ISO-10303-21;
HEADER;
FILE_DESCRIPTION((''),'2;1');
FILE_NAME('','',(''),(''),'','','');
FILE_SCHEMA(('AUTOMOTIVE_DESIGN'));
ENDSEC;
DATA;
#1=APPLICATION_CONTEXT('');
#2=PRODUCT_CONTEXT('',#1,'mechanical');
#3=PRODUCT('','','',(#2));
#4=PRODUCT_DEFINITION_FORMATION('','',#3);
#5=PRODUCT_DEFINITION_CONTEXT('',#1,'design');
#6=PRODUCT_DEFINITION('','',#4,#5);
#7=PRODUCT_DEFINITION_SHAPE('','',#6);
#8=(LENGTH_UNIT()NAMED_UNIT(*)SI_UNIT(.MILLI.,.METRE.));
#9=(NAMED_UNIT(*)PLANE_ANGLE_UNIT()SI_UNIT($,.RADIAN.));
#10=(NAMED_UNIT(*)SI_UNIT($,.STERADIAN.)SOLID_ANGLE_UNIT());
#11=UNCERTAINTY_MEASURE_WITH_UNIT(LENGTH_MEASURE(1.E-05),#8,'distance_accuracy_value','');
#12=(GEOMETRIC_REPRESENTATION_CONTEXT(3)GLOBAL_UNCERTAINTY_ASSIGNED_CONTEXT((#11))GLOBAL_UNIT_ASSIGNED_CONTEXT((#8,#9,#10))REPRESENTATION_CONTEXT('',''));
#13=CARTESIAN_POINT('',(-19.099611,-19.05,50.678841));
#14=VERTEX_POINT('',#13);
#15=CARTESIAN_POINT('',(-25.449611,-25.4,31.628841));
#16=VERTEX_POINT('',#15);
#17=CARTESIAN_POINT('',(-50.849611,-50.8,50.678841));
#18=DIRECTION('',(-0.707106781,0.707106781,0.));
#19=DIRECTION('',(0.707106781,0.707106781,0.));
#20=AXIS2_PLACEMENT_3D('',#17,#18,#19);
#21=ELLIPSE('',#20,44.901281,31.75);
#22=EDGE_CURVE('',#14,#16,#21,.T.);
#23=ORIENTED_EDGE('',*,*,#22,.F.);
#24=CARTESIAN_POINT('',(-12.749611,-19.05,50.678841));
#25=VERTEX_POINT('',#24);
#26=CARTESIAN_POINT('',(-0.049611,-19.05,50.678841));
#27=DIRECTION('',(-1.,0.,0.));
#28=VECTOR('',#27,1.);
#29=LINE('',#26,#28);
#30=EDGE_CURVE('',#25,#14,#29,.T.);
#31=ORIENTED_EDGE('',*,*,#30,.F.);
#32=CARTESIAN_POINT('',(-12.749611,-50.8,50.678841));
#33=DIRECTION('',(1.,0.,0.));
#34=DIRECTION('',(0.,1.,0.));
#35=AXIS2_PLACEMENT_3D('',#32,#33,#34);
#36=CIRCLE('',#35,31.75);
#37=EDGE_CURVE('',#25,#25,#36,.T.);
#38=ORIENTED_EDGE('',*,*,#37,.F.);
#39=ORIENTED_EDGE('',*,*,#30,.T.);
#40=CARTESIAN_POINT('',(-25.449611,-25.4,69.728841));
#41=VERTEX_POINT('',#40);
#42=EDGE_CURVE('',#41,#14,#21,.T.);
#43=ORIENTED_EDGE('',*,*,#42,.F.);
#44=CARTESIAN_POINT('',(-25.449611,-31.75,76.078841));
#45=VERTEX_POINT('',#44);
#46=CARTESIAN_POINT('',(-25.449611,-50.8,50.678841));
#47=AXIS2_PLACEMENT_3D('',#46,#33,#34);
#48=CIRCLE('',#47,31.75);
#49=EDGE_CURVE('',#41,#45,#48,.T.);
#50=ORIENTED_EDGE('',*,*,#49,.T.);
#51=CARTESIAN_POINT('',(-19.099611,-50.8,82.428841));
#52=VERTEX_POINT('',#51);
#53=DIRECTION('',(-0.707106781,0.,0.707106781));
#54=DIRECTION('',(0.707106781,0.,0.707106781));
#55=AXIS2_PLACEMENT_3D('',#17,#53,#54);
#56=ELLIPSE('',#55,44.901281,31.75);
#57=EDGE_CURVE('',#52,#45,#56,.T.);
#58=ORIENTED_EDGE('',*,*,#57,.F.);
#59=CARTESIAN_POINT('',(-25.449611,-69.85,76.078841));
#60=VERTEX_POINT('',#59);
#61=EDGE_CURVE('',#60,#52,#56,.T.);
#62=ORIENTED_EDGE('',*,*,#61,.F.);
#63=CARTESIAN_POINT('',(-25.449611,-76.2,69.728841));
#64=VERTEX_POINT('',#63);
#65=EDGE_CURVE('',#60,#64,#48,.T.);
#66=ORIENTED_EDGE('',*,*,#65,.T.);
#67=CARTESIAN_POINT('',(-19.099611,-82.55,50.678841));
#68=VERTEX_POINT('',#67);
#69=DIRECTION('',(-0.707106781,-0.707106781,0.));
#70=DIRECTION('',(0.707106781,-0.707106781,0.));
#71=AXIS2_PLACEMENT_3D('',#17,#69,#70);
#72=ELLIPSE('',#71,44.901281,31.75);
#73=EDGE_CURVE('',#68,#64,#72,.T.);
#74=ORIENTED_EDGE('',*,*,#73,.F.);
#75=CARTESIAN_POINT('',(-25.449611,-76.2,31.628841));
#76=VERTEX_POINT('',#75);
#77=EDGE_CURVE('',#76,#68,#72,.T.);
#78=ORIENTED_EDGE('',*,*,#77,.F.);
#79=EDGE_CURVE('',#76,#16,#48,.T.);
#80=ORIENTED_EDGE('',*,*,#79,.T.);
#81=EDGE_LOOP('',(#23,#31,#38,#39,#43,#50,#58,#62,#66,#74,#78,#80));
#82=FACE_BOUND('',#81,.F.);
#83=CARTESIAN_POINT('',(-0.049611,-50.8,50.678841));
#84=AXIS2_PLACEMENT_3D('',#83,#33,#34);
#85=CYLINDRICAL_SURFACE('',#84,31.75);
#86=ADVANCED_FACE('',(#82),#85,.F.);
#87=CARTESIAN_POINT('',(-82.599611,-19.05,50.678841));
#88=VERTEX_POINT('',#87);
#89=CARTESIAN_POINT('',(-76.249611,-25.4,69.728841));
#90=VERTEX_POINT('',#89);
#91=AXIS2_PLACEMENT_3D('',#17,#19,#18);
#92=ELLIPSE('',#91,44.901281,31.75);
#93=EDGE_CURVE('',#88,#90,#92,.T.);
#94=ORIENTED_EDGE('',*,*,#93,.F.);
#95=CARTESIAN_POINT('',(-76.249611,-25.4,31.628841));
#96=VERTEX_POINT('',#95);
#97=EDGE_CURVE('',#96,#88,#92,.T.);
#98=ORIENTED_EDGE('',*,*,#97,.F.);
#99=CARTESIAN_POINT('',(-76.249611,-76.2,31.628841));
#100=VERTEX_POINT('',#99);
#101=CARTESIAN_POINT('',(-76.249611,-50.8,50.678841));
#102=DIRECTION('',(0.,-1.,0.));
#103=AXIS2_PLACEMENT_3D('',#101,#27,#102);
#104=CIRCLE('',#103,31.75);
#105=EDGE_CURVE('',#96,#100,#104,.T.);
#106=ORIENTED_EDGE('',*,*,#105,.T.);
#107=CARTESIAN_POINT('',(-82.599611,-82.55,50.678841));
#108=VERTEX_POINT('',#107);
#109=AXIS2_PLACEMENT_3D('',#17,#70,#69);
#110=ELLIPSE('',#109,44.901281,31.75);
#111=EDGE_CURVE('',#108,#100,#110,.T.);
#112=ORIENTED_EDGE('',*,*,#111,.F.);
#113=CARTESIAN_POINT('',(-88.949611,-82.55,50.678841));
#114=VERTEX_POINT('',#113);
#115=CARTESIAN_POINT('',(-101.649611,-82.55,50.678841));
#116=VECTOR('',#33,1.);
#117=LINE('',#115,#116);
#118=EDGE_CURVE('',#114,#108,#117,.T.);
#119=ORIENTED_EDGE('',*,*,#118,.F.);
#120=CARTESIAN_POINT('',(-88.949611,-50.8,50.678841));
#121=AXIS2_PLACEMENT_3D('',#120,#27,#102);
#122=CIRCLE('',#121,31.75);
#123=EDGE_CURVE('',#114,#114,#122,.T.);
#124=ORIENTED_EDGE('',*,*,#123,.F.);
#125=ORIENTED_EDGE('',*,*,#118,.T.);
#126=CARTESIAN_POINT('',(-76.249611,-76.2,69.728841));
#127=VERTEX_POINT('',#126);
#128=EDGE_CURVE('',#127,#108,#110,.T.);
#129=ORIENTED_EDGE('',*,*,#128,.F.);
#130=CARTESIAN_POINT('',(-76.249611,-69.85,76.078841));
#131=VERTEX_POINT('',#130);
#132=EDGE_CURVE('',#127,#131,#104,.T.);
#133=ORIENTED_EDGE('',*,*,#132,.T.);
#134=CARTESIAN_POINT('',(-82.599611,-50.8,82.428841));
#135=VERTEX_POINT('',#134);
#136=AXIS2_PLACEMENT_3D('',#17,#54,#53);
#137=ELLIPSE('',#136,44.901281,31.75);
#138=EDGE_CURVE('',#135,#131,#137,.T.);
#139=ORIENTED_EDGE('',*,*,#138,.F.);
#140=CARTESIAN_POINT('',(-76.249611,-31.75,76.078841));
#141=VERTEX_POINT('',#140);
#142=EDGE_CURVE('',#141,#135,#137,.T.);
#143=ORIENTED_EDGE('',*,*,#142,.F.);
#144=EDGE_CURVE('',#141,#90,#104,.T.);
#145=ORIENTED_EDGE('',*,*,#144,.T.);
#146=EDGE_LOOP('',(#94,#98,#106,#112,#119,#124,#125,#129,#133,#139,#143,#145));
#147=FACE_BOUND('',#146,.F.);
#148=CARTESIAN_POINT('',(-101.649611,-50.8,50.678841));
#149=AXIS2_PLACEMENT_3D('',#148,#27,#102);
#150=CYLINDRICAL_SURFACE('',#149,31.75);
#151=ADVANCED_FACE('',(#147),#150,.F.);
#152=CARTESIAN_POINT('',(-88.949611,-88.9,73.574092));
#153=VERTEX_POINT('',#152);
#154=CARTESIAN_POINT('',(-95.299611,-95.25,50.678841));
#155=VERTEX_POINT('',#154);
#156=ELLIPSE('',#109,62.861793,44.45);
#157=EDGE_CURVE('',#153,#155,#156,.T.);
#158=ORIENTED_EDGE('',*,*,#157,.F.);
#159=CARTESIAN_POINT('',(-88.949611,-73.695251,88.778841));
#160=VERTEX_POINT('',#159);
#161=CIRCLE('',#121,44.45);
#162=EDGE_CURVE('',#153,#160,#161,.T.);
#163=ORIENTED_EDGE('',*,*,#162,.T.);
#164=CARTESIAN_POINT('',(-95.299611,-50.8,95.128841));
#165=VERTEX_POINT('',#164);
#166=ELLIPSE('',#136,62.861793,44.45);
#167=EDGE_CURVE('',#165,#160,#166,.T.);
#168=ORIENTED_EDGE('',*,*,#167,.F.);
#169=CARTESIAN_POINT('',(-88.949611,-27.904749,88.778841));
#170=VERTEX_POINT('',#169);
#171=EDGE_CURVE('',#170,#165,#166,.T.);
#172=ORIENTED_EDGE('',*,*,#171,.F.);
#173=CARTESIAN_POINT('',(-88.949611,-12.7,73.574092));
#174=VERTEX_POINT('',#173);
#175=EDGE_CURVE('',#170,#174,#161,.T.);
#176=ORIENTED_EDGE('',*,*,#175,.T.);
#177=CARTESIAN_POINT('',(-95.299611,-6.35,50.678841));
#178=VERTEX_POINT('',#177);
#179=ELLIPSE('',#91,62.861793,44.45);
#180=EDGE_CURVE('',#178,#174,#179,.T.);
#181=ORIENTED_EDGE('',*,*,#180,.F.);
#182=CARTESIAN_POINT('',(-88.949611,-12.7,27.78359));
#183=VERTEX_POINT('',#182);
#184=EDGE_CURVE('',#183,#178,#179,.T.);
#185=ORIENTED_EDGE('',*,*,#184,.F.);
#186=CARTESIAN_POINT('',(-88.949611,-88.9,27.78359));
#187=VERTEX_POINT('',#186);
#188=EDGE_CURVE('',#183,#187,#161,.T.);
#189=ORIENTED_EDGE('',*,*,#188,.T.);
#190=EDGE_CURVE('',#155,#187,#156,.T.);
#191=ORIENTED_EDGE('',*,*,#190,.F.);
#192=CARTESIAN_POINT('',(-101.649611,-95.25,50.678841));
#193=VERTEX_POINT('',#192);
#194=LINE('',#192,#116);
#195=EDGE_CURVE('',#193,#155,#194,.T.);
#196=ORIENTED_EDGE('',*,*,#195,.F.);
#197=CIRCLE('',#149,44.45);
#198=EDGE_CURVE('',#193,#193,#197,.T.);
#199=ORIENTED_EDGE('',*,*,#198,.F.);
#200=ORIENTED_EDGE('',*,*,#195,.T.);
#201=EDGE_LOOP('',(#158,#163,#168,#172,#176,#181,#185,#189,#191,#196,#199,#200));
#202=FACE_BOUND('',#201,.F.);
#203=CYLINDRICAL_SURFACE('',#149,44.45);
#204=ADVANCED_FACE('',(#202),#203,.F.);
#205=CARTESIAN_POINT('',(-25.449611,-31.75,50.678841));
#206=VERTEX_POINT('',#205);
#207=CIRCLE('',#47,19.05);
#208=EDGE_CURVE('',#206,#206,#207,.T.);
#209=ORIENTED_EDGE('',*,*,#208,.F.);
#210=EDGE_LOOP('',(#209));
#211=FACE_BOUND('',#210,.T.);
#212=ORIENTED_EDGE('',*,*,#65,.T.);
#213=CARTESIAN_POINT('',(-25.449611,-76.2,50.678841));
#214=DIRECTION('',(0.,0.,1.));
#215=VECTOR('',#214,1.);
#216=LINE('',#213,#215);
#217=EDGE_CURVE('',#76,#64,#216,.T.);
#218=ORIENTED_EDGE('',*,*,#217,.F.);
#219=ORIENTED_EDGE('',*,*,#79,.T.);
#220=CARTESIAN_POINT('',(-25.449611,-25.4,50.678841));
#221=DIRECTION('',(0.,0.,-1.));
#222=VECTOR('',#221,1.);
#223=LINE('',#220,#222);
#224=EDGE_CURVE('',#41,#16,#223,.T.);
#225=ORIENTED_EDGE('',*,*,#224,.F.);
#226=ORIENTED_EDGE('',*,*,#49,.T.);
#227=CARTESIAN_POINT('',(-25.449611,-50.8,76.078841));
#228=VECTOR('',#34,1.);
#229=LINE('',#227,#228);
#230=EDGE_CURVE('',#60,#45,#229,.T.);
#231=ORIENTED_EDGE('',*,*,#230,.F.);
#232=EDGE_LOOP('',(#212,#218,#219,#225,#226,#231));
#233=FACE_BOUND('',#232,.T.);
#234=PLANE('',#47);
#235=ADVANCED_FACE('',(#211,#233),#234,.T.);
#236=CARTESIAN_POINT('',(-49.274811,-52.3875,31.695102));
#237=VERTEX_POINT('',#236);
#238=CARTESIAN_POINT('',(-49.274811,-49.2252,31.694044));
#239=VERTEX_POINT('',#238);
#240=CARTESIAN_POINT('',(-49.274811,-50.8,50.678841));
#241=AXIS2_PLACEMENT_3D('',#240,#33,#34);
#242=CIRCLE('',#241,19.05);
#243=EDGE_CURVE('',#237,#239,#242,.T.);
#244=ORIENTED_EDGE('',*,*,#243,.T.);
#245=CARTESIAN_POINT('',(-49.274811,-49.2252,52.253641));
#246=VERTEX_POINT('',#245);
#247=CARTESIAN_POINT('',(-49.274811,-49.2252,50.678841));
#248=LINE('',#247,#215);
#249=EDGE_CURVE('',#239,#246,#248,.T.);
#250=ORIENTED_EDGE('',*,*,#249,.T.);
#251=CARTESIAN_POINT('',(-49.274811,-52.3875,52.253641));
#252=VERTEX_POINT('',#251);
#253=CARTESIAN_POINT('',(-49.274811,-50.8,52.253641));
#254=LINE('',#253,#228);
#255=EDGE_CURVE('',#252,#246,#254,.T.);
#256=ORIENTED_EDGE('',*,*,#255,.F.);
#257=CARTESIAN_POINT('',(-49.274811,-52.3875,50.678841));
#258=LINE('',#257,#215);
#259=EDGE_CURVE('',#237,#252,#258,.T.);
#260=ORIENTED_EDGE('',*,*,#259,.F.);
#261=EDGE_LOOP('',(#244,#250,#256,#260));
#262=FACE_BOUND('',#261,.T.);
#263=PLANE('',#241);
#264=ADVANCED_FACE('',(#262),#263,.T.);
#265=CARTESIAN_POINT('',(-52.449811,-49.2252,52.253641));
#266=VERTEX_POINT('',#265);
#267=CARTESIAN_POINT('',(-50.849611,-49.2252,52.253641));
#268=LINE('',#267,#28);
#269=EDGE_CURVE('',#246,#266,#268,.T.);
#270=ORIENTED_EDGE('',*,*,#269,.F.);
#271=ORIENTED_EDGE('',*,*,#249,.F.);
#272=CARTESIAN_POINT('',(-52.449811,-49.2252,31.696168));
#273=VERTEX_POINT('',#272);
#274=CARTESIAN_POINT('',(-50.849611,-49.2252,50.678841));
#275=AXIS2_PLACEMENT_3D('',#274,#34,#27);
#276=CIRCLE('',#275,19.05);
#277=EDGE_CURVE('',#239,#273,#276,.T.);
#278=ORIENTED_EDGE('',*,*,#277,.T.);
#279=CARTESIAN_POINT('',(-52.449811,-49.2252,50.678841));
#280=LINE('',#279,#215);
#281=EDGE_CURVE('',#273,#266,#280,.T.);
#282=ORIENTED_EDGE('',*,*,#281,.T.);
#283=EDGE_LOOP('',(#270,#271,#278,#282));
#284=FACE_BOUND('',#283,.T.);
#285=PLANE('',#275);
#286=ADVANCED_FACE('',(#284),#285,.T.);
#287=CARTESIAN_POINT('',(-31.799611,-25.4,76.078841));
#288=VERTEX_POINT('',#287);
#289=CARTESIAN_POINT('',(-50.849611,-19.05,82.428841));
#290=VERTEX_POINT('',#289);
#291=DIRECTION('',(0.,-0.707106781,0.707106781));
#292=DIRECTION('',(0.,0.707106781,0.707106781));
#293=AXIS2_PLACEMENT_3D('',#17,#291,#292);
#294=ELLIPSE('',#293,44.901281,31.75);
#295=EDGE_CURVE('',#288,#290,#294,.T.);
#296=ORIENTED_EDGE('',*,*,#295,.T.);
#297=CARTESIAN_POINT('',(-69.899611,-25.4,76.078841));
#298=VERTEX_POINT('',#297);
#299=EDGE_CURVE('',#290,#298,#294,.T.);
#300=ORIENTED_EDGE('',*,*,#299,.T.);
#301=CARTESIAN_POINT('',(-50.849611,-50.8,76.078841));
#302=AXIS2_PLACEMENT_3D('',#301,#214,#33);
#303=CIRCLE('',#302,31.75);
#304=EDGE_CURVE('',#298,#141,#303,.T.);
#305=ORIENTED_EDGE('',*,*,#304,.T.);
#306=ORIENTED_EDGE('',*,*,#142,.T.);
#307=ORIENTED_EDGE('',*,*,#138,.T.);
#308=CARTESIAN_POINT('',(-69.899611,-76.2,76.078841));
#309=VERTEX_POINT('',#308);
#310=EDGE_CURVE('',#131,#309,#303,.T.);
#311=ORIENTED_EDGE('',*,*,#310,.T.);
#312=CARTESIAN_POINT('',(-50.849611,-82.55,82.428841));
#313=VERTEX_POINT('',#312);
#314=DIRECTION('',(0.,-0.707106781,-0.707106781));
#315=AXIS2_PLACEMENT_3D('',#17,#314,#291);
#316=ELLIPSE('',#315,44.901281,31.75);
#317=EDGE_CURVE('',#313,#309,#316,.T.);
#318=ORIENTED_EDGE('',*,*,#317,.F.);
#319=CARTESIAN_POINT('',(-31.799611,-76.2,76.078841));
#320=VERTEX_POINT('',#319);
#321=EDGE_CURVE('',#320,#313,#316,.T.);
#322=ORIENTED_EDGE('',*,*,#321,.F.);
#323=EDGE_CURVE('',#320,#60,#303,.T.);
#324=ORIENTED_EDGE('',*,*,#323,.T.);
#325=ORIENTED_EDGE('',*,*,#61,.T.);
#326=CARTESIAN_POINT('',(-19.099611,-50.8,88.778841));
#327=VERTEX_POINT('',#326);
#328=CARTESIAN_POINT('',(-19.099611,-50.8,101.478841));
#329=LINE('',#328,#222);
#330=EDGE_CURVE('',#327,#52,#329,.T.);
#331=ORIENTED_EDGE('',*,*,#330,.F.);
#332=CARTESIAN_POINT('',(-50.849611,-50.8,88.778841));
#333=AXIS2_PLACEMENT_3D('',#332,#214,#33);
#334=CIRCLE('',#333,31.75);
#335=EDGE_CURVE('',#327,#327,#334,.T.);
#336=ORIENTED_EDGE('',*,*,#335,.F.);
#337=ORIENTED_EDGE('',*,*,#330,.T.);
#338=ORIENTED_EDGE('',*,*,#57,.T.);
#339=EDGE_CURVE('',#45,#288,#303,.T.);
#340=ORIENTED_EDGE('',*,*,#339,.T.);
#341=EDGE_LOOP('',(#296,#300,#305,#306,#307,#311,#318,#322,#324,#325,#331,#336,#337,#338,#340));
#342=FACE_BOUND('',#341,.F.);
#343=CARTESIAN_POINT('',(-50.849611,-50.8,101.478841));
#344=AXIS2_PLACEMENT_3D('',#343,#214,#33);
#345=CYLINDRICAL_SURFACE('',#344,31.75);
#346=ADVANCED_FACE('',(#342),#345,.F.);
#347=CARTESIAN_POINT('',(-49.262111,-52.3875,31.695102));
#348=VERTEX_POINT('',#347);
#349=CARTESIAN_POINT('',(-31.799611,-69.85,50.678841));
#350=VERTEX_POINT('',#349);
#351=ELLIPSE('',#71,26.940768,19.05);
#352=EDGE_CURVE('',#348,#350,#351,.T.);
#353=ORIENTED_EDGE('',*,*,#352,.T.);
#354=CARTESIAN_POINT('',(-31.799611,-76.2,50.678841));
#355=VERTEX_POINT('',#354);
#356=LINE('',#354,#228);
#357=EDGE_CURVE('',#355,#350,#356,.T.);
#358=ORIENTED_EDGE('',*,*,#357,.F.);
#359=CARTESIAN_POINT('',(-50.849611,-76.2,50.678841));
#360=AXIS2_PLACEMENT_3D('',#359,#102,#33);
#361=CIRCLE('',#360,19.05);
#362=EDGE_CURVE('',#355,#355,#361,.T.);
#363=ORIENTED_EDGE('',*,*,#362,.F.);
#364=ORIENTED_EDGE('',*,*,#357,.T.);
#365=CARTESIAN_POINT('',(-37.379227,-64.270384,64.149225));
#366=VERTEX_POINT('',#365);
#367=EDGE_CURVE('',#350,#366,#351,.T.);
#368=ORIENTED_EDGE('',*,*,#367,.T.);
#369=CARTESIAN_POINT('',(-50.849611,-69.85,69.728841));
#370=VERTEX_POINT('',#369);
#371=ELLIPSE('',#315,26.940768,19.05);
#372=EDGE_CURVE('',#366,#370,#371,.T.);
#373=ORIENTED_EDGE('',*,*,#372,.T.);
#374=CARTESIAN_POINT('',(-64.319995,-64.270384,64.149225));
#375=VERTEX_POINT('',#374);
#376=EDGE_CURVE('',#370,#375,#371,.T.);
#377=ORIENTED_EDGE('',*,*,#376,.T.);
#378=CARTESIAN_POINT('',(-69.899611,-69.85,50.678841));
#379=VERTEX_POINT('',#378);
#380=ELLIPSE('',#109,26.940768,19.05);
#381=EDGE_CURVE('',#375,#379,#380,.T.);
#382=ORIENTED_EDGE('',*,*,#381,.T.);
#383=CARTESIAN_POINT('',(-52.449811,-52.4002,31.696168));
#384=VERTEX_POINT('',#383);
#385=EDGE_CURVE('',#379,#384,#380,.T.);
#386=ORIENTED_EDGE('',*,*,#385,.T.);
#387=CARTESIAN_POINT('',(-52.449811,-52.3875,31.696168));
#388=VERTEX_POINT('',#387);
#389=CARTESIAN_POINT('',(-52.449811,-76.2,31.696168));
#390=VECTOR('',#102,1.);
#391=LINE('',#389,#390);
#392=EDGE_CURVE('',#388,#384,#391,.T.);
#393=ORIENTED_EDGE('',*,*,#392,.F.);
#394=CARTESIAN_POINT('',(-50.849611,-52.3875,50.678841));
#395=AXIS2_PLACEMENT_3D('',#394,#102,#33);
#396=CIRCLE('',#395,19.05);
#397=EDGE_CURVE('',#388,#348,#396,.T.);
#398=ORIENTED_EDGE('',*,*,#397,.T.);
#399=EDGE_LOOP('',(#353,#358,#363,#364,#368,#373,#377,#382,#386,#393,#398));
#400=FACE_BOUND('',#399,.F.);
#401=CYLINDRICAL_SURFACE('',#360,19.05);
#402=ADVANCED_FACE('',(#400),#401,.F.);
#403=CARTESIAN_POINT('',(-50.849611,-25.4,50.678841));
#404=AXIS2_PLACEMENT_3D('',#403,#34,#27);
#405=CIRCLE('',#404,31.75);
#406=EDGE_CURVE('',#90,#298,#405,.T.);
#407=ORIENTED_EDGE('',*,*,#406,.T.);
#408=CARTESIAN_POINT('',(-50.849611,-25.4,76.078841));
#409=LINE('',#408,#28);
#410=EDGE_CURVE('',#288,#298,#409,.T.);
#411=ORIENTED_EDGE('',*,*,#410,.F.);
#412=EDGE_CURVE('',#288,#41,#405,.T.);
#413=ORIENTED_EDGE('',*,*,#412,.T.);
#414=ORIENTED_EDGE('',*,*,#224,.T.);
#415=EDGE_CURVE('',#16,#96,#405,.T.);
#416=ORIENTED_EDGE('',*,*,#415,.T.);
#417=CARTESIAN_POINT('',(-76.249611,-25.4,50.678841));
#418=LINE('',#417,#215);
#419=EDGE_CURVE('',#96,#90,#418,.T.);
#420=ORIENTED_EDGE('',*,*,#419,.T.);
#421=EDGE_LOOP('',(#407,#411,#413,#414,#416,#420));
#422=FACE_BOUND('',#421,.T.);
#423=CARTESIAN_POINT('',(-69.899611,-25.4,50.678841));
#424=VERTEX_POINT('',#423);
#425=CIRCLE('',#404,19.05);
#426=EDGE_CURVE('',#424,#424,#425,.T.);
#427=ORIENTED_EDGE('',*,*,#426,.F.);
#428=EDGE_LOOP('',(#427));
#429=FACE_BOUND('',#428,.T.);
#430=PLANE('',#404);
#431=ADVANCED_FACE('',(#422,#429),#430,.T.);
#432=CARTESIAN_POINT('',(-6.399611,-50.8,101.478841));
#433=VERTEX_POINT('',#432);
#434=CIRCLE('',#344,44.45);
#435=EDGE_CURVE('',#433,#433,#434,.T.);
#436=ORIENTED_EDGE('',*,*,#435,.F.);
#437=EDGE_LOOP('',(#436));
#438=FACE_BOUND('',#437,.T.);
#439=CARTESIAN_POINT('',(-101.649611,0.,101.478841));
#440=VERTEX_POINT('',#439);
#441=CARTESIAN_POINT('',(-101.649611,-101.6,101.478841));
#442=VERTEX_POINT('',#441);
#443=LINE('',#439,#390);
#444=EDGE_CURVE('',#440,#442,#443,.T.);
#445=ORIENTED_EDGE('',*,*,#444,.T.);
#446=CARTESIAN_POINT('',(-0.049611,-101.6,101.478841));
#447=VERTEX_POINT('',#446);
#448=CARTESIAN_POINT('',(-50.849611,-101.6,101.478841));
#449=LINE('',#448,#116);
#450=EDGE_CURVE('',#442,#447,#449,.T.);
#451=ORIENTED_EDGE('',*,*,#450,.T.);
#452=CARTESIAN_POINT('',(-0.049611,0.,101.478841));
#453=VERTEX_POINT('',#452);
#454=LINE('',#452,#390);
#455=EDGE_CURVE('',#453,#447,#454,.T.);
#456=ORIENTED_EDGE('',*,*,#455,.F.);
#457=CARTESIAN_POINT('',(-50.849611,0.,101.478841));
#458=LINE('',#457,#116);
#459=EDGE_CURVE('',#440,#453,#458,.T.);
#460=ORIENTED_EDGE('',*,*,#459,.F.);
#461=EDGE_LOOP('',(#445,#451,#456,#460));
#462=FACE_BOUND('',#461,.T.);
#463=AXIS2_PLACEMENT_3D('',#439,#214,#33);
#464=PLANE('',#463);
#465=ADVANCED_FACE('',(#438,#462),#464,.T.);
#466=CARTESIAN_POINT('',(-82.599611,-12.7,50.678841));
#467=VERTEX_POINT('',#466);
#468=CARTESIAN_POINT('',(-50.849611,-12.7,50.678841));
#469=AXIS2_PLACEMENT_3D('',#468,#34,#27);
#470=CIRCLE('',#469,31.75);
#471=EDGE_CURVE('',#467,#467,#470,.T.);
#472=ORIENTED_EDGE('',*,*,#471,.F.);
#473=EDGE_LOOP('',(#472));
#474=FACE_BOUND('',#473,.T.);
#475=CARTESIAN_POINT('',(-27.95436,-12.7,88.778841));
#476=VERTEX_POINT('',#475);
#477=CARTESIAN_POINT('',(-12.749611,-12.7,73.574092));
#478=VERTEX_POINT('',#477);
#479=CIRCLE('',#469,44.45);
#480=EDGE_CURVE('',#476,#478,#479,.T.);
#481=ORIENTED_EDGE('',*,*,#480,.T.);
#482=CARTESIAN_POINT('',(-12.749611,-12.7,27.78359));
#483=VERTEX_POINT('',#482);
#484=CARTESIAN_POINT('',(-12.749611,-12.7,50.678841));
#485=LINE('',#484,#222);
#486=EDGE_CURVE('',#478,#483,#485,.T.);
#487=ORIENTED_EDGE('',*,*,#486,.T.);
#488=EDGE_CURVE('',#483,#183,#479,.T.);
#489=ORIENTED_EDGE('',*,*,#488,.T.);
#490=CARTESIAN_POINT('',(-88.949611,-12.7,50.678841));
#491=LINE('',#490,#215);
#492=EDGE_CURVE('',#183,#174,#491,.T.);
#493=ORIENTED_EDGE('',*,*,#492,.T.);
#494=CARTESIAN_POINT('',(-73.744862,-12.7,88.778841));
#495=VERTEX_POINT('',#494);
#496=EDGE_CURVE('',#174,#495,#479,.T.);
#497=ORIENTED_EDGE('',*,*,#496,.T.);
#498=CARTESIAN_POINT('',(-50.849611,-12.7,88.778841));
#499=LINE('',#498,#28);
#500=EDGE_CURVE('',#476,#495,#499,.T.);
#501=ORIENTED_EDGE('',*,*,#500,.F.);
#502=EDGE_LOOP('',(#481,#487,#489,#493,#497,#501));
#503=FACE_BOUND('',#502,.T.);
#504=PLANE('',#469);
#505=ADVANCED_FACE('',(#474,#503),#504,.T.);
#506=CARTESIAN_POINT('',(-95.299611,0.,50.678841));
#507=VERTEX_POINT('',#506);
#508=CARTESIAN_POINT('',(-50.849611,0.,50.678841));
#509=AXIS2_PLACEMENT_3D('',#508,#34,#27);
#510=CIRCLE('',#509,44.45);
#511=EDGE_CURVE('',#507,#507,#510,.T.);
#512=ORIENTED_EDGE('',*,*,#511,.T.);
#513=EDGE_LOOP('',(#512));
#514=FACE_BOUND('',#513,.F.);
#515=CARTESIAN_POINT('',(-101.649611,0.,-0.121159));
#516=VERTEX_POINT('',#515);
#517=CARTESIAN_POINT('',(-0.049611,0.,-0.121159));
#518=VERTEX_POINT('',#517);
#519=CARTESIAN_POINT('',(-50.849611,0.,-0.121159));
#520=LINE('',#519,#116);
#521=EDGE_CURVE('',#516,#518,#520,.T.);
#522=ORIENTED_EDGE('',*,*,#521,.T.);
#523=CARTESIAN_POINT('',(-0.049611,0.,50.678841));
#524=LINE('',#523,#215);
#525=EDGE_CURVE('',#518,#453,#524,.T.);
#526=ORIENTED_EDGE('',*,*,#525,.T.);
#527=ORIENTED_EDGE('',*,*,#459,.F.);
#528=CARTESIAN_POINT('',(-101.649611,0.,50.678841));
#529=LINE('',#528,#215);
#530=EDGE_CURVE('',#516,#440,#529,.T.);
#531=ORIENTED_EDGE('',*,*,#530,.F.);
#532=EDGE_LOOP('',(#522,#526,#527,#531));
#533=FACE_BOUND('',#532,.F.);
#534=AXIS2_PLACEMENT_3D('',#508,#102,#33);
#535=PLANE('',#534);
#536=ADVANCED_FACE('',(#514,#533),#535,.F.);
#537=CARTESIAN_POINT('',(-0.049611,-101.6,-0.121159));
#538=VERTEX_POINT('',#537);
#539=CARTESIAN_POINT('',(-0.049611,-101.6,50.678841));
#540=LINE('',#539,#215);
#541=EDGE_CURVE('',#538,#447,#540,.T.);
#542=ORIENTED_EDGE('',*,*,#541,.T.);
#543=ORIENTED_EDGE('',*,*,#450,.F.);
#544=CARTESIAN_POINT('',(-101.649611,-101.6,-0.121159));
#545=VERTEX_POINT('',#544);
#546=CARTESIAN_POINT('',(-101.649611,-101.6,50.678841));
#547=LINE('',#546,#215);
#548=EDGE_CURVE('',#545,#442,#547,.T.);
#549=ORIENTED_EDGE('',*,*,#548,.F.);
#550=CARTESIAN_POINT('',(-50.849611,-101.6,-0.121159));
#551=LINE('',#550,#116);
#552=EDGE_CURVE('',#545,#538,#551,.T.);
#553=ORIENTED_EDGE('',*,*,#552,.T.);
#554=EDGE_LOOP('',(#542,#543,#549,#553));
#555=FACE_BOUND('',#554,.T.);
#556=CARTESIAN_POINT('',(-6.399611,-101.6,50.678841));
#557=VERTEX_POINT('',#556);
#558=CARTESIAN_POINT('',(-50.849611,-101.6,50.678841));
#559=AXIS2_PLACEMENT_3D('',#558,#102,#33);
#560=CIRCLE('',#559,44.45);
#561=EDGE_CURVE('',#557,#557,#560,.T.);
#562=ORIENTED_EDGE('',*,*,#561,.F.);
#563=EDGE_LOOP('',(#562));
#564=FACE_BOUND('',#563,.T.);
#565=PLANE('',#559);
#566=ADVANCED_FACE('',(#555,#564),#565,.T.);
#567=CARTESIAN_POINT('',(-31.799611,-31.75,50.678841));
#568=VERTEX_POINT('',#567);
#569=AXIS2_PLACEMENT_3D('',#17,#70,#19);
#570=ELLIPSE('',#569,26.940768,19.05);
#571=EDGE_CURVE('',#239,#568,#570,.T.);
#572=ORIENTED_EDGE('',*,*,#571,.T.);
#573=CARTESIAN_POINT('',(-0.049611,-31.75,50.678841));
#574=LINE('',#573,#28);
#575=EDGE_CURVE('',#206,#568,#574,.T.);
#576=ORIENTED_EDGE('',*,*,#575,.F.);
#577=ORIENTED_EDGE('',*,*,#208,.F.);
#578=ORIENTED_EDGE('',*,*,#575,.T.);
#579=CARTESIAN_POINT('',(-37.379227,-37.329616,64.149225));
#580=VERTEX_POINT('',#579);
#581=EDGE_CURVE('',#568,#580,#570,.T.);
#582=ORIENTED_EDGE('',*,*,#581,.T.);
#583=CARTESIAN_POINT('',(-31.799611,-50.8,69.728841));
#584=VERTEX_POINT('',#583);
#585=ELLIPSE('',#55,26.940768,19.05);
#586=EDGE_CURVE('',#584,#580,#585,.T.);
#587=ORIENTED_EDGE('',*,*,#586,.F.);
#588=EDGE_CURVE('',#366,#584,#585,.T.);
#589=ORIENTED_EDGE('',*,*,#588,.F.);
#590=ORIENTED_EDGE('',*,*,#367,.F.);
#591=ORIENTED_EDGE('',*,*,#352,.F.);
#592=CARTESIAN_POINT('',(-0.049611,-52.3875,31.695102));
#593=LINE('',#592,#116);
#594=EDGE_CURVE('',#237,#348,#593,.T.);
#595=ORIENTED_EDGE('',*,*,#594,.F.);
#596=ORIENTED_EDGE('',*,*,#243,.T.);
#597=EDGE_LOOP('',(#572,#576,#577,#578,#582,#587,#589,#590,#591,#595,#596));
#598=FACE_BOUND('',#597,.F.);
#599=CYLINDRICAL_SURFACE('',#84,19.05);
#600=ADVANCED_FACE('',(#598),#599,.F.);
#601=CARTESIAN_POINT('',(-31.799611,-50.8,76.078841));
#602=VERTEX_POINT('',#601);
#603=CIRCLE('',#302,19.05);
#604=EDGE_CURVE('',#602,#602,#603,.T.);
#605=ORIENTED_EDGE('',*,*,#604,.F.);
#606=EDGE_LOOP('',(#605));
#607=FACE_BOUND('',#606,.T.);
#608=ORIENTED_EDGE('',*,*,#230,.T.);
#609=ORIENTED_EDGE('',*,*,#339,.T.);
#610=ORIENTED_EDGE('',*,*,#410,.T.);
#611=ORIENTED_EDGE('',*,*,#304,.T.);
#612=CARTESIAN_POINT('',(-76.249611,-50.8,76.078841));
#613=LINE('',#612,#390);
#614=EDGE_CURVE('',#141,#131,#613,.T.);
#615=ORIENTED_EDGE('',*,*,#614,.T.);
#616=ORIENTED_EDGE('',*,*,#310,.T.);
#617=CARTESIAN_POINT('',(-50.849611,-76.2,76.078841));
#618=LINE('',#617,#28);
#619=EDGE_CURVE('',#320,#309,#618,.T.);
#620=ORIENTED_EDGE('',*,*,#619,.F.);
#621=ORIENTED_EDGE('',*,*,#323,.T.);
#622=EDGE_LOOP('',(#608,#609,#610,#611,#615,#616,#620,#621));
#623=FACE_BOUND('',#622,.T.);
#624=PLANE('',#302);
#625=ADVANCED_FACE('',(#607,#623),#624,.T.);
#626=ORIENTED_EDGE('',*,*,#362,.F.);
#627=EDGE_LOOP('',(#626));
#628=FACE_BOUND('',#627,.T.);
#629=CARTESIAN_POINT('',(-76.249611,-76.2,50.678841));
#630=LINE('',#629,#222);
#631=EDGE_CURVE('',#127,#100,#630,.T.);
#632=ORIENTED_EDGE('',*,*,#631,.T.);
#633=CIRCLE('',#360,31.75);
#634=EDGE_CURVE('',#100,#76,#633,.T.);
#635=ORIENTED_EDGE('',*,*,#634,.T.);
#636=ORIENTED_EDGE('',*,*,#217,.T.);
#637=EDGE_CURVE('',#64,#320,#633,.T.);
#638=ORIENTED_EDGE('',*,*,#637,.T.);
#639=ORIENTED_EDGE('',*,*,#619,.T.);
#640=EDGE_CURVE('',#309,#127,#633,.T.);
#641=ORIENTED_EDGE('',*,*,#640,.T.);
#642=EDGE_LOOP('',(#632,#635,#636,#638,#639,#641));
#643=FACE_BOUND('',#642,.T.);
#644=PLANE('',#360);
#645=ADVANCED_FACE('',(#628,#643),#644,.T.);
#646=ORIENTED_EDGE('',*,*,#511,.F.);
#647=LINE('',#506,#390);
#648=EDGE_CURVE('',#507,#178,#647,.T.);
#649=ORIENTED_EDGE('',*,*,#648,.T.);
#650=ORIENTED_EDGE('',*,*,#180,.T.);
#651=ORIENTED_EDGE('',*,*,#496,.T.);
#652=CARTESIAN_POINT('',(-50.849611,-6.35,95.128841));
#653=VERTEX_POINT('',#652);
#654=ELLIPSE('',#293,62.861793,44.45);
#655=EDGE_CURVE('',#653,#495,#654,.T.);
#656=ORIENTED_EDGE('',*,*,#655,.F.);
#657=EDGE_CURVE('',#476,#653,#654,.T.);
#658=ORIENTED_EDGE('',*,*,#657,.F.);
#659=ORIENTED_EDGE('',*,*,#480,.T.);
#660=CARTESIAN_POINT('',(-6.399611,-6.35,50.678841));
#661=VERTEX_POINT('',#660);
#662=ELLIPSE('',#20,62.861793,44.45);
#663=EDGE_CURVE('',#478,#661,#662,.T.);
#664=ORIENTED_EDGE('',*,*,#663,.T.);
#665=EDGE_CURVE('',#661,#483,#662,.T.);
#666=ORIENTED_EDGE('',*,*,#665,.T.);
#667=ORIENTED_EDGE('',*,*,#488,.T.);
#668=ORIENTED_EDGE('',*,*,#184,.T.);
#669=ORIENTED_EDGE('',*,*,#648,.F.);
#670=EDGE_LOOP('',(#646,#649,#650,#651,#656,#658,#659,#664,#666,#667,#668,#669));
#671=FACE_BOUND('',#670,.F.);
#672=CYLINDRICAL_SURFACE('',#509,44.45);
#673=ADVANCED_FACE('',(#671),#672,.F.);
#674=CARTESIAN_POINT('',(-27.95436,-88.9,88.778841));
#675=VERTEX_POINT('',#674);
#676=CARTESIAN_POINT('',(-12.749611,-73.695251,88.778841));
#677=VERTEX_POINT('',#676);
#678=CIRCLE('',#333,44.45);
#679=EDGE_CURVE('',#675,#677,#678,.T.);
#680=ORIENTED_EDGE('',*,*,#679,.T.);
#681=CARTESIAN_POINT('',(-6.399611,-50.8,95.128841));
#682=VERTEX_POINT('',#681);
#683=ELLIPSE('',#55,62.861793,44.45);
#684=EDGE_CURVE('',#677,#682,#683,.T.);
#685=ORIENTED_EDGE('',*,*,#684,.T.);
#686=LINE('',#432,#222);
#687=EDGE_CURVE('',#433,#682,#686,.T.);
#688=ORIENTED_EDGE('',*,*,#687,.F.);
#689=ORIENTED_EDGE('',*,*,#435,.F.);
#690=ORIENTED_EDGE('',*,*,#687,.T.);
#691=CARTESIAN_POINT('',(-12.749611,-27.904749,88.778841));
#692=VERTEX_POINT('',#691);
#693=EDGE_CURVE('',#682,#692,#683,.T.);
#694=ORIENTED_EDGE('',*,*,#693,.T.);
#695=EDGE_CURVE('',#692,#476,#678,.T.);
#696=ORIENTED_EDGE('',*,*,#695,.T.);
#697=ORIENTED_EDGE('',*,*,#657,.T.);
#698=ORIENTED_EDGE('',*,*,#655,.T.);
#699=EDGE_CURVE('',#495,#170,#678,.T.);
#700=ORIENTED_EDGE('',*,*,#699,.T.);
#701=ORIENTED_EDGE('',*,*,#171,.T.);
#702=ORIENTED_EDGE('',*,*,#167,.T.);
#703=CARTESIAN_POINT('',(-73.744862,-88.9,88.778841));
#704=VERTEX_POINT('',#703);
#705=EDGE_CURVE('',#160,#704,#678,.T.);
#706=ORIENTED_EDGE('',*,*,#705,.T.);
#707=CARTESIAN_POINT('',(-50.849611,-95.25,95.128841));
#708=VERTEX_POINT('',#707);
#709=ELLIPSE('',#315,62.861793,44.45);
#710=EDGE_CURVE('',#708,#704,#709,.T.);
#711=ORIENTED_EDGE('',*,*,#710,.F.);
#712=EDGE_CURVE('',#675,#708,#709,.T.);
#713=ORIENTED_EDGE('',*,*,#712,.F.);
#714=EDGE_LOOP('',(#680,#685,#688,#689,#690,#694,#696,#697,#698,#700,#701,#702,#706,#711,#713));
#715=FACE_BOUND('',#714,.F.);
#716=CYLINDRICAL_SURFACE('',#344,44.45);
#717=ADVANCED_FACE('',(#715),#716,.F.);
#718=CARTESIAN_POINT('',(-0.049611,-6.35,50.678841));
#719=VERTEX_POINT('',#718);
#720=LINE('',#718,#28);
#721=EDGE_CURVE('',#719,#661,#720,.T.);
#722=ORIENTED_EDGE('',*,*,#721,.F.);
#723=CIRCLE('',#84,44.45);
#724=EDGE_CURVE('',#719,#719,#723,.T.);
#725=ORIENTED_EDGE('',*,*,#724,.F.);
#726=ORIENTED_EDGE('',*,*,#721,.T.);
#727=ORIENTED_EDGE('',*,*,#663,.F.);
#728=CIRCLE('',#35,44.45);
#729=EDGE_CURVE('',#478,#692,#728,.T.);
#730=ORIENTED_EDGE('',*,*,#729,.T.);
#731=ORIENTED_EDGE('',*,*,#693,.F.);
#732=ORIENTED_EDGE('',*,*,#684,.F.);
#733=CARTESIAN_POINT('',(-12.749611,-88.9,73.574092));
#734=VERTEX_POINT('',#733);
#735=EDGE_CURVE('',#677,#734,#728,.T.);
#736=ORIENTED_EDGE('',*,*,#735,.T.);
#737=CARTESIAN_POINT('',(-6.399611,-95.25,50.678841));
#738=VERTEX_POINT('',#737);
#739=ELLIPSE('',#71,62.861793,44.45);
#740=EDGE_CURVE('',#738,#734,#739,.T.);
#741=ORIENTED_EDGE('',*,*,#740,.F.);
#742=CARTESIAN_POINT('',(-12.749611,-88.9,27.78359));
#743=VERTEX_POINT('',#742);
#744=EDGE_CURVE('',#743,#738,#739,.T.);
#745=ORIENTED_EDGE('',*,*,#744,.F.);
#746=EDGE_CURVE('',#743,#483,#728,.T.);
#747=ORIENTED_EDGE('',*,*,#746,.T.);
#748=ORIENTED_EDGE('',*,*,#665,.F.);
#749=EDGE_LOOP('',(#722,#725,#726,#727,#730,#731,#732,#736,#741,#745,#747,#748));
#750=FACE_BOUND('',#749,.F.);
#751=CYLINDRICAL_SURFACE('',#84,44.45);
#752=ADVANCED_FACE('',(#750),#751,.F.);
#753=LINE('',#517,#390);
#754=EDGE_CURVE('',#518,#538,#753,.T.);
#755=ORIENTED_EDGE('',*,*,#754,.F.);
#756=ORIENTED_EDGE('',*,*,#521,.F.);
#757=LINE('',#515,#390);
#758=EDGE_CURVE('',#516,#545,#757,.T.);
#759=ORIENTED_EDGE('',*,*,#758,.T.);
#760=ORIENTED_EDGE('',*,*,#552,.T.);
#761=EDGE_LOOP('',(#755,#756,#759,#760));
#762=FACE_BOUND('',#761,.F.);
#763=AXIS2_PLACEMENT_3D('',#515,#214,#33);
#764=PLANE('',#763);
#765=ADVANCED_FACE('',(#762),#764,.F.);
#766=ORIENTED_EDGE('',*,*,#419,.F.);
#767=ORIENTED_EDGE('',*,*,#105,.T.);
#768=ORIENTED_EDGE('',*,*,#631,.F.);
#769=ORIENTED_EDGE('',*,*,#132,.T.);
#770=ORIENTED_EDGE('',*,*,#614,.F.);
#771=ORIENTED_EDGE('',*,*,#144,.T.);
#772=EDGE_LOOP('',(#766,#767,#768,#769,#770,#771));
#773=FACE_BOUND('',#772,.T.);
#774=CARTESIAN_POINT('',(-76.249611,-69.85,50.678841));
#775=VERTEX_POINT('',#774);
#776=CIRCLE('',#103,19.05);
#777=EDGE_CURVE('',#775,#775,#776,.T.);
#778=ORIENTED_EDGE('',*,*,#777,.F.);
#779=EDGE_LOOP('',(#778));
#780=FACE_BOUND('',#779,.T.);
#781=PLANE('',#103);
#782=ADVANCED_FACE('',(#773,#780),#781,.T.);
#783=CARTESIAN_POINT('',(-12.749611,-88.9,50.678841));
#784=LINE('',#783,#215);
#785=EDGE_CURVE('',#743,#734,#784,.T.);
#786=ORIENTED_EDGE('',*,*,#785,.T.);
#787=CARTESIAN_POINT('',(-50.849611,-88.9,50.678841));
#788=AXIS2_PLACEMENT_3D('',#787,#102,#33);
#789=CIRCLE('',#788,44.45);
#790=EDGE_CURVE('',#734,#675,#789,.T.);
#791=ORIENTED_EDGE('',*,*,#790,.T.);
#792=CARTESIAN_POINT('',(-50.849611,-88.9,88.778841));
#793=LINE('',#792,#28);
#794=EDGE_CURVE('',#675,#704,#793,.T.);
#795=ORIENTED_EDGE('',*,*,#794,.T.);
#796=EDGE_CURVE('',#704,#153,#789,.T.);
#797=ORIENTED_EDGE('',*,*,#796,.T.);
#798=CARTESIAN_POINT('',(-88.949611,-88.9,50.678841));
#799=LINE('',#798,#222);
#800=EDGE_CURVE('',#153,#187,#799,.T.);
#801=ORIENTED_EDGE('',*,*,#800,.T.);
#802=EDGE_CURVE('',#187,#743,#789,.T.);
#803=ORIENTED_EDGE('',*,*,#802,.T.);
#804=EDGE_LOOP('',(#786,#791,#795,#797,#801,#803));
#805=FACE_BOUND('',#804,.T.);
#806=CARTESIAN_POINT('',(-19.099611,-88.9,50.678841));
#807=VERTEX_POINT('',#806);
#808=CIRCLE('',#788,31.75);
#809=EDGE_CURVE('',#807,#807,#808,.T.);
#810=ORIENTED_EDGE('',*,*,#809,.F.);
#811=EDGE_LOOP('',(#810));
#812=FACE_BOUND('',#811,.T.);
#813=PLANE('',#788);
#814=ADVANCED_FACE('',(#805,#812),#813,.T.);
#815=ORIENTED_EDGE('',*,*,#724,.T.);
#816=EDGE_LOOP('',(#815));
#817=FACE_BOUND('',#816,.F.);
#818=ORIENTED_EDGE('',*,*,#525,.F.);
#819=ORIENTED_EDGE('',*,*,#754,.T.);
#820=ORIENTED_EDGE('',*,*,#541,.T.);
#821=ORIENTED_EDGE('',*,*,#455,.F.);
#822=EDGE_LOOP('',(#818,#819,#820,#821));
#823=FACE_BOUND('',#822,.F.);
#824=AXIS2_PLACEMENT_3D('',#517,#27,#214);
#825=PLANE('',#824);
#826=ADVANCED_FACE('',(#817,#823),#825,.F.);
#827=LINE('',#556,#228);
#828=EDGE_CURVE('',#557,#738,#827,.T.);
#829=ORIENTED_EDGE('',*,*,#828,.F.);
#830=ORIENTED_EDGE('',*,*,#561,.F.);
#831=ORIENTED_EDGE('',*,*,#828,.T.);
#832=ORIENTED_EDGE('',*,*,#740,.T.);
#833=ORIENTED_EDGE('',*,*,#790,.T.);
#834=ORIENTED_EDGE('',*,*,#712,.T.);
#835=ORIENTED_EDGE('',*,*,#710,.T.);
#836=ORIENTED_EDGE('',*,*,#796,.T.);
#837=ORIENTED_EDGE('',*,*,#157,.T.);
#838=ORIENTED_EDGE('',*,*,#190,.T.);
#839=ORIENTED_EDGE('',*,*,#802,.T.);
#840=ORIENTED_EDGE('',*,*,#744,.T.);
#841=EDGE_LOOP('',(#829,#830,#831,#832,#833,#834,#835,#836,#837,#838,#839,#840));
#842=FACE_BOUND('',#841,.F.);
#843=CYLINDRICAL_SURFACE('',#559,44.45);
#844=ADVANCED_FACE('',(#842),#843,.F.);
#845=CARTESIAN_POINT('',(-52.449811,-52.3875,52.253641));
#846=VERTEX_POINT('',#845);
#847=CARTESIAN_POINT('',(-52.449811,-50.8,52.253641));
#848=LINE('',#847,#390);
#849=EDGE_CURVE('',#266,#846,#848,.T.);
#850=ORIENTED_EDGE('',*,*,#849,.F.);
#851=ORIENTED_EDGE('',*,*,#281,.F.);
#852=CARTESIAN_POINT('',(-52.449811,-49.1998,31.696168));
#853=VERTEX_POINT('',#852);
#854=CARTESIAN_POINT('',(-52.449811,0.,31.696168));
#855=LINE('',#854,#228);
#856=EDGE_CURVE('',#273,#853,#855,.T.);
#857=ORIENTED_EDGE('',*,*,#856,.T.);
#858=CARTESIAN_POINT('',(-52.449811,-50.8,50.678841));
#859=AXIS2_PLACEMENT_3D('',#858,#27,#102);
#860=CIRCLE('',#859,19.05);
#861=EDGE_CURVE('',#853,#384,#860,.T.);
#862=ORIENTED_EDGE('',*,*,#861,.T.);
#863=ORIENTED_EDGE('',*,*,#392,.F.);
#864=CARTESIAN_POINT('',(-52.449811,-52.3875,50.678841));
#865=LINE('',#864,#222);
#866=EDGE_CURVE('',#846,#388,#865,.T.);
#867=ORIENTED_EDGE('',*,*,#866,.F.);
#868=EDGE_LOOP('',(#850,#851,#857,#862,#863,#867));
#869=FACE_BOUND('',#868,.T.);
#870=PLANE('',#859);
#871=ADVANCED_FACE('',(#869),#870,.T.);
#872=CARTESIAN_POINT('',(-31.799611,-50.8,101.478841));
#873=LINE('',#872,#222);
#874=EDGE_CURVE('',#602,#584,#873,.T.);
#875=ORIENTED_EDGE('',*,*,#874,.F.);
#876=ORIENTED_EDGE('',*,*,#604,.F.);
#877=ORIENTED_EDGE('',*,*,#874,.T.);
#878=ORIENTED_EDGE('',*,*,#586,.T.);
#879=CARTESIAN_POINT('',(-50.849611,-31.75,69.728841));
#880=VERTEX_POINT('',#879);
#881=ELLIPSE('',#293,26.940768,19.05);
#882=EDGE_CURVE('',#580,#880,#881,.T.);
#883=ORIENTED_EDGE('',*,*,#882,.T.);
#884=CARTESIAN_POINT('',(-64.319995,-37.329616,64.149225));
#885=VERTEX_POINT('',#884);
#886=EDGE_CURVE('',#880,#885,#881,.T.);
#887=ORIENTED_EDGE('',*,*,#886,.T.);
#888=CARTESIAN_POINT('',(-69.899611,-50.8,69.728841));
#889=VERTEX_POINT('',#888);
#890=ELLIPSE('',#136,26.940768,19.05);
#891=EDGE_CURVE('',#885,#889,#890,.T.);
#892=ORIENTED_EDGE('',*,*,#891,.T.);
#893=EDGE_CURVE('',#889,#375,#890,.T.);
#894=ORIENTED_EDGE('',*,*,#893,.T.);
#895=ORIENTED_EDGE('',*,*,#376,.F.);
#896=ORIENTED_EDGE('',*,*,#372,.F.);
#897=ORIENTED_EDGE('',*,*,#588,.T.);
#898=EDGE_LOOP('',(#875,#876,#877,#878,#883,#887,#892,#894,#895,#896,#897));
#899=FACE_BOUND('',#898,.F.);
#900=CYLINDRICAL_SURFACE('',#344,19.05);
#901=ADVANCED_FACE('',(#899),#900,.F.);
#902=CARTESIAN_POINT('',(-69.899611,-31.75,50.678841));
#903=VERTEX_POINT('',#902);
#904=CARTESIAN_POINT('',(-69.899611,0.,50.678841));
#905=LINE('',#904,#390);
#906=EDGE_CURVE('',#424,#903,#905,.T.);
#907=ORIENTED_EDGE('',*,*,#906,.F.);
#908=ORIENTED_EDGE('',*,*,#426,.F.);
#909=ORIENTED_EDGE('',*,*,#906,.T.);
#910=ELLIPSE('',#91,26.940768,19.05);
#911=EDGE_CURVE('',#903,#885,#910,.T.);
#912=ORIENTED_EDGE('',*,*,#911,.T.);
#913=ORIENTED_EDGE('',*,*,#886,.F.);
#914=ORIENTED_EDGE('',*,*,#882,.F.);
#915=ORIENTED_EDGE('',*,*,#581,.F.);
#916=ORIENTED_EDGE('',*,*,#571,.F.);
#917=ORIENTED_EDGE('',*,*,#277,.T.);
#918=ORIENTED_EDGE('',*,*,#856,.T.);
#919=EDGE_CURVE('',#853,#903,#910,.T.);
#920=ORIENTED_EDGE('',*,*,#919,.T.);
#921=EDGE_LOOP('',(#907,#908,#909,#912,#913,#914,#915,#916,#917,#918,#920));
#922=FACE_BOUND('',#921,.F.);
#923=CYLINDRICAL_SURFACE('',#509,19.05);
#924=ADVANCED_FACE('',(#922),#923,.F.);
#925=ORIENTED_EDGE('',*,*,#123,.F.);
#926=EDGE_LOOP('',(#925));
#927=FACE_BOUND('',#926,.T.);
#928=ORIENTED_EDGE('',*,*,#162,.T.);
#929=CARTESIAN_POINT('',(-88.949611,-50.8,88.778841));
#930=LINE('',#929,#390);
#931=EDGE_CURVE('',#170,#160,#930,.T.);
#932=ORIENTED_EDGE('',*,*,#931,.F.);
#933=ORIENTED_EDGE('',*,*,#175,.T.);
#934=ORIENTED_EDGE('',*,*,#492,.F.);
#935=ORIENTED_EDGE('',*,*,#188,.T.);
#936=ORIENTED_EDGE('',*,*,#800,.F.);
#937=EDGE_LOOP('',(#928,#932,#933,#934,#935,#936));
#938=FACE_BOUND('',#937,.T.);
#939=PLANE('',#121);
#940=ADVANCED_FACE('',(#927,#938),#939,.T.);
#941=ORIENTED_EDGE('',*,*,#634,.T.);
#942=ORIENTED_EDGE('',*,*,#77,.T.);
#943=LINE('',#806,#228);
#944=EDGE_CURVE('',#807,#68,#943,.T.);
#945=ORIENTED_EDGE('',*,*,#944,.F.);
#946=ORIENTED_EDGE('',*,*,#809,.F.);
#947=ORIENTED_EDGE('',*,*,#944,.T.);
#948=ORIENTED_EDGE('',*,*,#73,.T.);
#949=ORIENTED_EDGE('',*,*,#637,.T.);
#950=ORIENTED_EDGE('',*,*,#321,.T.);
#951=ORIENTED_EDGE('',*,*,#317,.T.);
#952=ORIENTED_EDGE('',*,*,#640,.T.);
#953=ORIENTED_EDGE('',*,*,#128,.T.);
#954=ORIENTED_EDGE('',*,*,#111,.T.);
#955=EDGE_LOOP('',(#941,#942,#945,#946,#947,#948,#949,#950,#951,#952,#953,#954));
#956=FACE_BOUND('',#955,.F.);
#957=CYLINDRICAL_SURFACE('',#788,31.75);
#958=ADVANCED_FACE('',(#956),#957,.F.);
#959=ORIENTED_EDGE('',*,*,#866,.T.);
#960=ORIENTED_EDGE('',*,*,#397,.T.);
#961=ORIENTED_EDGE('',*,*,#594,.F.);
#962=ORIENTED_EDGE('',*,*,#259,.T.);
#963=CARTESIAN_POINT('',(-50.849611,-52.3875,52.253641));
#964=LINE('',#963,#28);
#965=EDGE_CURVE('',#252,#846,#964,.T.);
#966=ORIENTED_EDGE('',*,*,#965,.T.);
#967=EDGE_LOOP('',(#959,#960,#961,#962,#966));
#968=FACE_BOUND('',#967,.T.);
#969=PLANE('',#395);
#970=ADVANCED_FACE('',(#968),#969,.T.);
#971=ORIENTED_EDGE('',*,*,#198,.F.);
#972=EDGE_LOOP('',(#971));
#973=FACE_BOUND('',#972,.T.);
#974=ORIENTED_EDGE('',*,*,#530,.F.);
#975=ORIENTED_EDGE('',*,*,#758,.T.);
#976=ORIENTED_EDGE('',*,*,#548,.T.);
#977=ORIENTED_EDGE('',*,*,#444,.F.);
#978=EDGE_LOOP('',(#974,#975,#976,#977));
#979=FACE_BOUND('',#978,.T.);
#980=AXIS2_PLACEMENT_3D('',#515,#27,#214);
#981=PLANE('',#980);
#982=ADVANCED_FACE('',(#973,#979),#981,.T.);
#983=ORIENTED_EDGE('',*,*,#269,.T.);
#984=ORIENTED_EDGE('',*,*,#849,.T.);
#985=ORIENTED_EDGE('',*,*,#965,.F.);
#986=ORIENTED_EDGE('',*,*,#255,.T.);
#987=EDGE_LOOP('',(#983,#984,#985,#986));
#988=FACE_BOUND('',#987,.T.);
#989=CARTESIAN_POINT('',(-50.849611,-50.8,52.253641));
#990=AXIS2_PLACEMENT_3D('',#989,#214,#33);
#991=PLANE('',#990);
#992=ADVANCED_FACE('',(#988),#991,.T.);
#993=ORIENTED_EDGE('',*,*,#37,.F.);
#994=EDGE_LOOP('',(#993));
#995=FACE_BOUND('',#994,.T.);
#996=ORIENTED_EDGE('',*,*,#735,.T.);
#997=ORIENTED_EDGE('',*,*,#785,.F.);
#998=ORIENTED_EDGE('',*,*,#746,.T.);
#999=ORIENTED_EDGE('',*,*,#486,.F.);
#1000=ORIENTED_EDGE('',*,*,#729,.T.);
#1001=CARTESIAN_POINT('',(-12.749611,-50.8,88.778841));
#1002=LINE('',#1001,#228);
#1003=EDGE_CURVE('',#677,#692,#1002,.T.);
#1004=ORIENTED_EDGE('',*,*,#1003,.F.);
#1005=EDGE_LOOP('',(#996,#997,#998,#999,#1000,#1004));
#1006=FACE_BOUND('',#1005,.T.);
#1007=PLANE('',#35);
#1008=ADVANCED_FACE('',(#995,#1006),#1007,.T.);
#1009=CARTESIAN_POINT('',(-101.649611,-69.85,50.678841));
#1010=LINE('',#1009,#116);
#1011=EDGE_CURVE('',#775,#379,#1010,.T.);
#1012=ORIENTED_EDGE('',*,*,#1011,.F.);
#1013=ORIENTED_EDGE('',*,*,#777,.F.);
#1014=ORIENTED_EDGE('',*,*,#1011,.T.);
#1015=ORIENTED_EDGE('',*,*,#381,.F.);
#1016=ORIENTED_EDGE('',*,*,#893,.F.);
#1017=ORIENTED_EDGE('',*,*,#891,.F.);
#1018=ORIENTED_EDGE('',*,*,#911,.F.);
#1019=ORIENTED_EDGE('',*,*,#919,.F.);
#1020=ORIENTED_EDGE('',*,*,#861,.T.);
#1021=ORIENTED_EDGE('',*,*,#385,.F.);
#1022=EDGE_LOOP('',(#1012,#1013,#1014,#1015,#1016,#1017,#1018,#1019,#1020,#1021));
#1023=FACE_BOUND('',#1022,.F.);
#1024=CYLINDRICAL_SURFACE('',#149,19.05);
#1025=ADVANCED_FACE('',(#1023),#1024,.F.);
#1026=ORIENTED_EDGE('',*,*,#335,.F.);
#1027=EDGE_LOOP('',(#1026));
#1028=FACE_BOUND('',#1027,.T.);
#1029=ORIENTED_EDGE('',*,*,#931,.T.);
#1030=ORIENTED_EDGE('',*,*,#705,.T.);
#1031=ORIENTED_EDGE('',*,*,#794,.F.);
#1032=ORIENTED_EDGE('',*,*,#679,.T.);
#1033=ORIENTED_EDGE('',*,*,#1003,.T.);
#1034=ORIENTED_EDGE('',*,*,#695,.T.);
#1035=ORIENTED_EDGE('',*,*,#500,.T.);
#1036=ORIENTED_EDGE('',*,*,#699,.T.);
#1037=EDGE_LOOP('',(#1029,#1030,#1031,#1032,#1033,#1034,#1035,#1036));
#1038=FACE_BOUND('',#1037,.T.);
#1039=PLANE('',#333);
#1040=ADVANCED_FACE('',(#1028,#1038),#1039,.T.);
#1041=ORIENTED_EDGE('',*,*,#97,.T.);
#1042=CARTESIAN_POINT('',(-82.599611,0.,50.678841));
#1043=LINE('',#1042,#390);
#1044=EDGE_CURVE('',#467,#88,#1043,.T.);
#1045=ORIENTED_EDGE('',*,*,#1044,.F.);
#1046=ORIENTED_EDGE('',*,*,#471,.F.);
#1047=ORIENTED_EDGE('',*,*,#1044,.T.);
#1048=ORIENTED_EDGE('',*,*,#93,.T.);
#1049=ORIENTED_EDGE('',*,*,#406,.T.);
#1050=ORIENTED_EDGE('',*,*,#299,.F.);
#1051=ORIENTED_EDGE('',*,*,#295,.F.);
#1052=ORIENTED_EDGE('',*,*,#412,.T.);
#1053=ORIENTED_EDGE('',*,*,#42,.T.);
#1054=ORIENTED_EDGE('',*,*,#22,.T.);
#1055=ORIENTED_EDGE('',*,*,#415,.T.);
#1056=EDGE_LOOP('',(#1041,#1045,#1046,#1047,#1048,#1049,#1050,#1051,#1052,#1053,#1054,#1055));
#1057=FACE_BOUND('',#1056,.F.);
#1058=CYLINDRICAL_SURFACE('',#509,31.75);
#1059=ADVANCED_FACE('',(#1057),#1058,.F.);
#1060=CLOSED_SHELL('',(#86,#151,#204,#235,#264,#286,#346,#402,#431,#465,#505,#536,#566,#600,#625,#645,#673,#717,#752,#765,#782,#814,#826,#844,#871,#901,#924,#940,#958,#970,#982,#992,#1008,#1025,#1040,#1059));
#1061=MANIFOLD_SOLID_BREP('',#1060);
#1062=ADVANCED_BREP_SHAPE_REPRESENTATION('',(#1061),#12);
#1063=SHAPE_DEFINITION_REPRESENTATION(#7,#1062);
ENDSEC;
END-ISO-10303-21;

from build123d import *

# Parameters (mm, degrees)
F0_W      = 101.6
F0_H      = 101.6
F1_DEPTH  = 101.6
F2_R      = 44.45
F3_DEPTH  = 12.7
F4_R      = 31.75
F5_DEPTH  = 12.7
F6_R      = 19.05
F7_DEPTH  = 23.8125
F8_R      = 44.45
F8_R_2    = 31.75
F8_R_3    = 19.05
F9_DEPTH  = 12.7
F10_DEPTH = 25.4
F11_DEPTH = 49.2252
F12_R     = 19.05
F15_DEPTH = 49.2252
F13_R     = 19.05
F16_DEPTH = 49.2252
F13_R_2   = 31.75
F17_DEPTH = 25.4
F13_R_3   = 44.45
F18_DEPTH = 12.7
F14_R     = 19.05
F19_DEPTH = 49.1998
F14_R_2   = 31.75
F20_DEPTH = 25.4
F14_R_3   = 44.45
F21_DEPTH = 12.7
F12_R_2   = 31.75
F22_DEPTH = 25.4
F12_R_3   = 44.45
F23_DEPTH = 12.7


with BuildPart() as f1:
    # F0 (on Front) → F1 (new body)
    with BuildSketch(Plane.XZ):
        with Locations((-50.849611, 50.678841)):
            Rectangle(F0_W, F0_H)
    extrude(amount=F1_DEPTH)

    # F2 (on face) → F3 (cut)
    with BuildSketch(Plane.XZ.offset(101.6)):
        with Locations((-50.849611, 50.678841)):
            Circle(F2_R)
    extrude(amount=-F3_DEPTH, mode=Mode.SUBTRACT)

    # F4 (on face) → F5 (cut)
    with BuildSketch(Plane.XZ.offset(88.9)):
        with Locations((-50.849611, 50.678841)):
            Circle(F4_R)
    extrude(amount=-F5_DEPTH, mode=Mode.SUBTRACT)

    # F6 (on face) → F7 (cut)
    with BuildSketch(Plane.XZ.offset(76.2)):
        with Locations((-50.849611, 50.678841)):
            Circle(F6_R)
    extrude(amount=-F7_DEPTH, mode=Mode.SUBTRACT)

    # F8 (on face) → F9 (cut)
    with BuildSketch(Plane.XY.offset(101.478841)):
        with Locations((-50.849611, -50.8)):
            Circle(F8_R)
        with Locations((-50.849611, -50.8)):
            Circle(F8_R_2, mode=Mode.SUBTRACT)
        with Locations((-50.849611, -50.8)):
            Circle(F8_R_2)
        with Locations((-50.849611, -50.8)):
            Circle(F8_R_3, mode=Mode.SUBTRACT)
        with Locations((-50.849611, -50.8)):
            Circle(F8_R_3)
    extrude(amount=-F9_DEPTH, mode=Mode.SUBTRACT)

    # F8 (on face) → F10 (cut)
    with BuildSketch(Plane.XY.offset(101.478841)):
        with Locations((-50.849611, -50.8)):
            Circle(F8_R_2)
        with Locations((-50.849611, -50.8)):
            Circle(F8_R_3, mode=Mode.SUBTRACT)
        with Locations((-50.849611, -50.8)):
            Circle(F8_R_3)
    extrude(amount=-F10_DEPTH, mode=Mode.SUBTRACT)

    # F8 (on face) → F11 (cut)
    with BuildSketch(Plane.XY.offset(101.478841)):
        with Locations((-50.849611, -50.8)):
            Circle(F8_R_3)
    extrude(amount=-F11_DEPTH, mode=Mode.SUBTRACT)

    # F12 (on face) → F15 (cut)
    with BuildSketch(Plane.YZ.offset(-0.049611)):
        with Locations((-50.8, 50.678841)):
            Circle(F12_R)
    extrude(amount=-F15_DEPTH, mode=Mode.SUBTRACT)

    # F13 (on face) → F16 (cut)
    with BuildSketch(Plane(origin=(0, 0, 0), x_dir=(-1, 0, 0), z_dir=(0, 1, 0))):
        with Locations((50.849611, 50.678841)):
            Circle(F13_R)
    extrude(amount=-F16_DEPTH, mode=Mode.SUBTRACT)

    # F13 (on face) → F17 (cut)
    with BuildSketch(Plane(origin=(0, 0, 0), x_dir=(-1, 0, 0), z_dir=(0, 1, 0))):
        with Locations((50.849611, 50.678841)):
            Circle(F13_R_2)
        with Locations((50.849611, 50.678841)):
            Circle(F13_R, mode=Mode.SUBTRACT)
    extrude(amount=-F17_DEPTH, mode=Mode.SUBTRACT)

    # F13 (on face) → F18 (cut)
    with BuildSketch(Plane(origin=(0, 0, 0), x_dir=(-1, 0, 0), z_dir=(0, 1, 0))):
        with Locations((50.849611, 50.678841)):
            Circle(F13_R_3)
        with Locations((50.849611, 50.678841)):
            Circle(F13_R_2, mode=Mode.SUBTRACT)
    extrude(amount=-F18_DEPTH, mode=Mode.SUBTRACT)

    # F14 (on face) → F19 (cut)
    with BuildSketch(Plane(origin=(-101.649611, 0, 0), x_dir=(0, -1, 0), z_dir=(-1, 0, 0))):
        with Locations((50.8, 50.678841)):
            Circle(F14_R)
    extrude(amount=-F19_DEPTH, mode=Mode.SUBTRACT)

    # F14 (on face) → F20 (cut)
    with BuildSketch(Plane(origin=(-101.649611, 0, 0), x_dir=(0, -1, 0), z_dir=(-1, 0, 0))):
        with Locations((50.8, 50.678841)):
            Circle(F14_R_2)
        with Locations((50.8, 50.678841)):
            Circle(F14_R, mode=Mode.SUBTRACT)
    extrude(amount=-F20_DEPTH, mode=Mode.SUBTRACT)

    # F14 (on face) → F21 (cut)
    with BuildSketch(Plane(origin=(-101.649611, 0, 0), x_dir=(0, -1, 0), z_dir=(-1, 0, 0))):
        with Locations((50.8, 50.678841)):
            Circle(F14_R_3)
        with Locations((50.8, 50.678841)):
            Circle(F14_R_2, mode=Mode.SUBTRACT)
    extrude(amount=-F21_DEPTH, mode=Mode.SUBTRACT)

    # F12 (on face) → F22 (cut)
    with BuildSketch(Plane.YZ.offset(-0.049611)):
        with Locations((-50.8, 50.678841)):
            Circle(F12_R_2)
        with Locations((-50.8, 50.678841)):
            Circle(F12_R, mode=Mode.SUBTRACT)
    extrude(amount=-F22_DEPTH, mode=Mode.SUBTRACT)

    # F12 (on face) → F23 (cut)
    with BuildSketch(Plane.YZ.offset(-0.049611)):
        with Locations((-50.8, 50.678841)):
            Circle(F12_R_3)
        with Locations((-50.8, 50.678841)):
            Circle(F12_R_2, mode=Mode.SUBTRACT)
    extrude(amount=-F23_DEPTH, mode=Mode.SUBTRACT)


solid = f1.part
